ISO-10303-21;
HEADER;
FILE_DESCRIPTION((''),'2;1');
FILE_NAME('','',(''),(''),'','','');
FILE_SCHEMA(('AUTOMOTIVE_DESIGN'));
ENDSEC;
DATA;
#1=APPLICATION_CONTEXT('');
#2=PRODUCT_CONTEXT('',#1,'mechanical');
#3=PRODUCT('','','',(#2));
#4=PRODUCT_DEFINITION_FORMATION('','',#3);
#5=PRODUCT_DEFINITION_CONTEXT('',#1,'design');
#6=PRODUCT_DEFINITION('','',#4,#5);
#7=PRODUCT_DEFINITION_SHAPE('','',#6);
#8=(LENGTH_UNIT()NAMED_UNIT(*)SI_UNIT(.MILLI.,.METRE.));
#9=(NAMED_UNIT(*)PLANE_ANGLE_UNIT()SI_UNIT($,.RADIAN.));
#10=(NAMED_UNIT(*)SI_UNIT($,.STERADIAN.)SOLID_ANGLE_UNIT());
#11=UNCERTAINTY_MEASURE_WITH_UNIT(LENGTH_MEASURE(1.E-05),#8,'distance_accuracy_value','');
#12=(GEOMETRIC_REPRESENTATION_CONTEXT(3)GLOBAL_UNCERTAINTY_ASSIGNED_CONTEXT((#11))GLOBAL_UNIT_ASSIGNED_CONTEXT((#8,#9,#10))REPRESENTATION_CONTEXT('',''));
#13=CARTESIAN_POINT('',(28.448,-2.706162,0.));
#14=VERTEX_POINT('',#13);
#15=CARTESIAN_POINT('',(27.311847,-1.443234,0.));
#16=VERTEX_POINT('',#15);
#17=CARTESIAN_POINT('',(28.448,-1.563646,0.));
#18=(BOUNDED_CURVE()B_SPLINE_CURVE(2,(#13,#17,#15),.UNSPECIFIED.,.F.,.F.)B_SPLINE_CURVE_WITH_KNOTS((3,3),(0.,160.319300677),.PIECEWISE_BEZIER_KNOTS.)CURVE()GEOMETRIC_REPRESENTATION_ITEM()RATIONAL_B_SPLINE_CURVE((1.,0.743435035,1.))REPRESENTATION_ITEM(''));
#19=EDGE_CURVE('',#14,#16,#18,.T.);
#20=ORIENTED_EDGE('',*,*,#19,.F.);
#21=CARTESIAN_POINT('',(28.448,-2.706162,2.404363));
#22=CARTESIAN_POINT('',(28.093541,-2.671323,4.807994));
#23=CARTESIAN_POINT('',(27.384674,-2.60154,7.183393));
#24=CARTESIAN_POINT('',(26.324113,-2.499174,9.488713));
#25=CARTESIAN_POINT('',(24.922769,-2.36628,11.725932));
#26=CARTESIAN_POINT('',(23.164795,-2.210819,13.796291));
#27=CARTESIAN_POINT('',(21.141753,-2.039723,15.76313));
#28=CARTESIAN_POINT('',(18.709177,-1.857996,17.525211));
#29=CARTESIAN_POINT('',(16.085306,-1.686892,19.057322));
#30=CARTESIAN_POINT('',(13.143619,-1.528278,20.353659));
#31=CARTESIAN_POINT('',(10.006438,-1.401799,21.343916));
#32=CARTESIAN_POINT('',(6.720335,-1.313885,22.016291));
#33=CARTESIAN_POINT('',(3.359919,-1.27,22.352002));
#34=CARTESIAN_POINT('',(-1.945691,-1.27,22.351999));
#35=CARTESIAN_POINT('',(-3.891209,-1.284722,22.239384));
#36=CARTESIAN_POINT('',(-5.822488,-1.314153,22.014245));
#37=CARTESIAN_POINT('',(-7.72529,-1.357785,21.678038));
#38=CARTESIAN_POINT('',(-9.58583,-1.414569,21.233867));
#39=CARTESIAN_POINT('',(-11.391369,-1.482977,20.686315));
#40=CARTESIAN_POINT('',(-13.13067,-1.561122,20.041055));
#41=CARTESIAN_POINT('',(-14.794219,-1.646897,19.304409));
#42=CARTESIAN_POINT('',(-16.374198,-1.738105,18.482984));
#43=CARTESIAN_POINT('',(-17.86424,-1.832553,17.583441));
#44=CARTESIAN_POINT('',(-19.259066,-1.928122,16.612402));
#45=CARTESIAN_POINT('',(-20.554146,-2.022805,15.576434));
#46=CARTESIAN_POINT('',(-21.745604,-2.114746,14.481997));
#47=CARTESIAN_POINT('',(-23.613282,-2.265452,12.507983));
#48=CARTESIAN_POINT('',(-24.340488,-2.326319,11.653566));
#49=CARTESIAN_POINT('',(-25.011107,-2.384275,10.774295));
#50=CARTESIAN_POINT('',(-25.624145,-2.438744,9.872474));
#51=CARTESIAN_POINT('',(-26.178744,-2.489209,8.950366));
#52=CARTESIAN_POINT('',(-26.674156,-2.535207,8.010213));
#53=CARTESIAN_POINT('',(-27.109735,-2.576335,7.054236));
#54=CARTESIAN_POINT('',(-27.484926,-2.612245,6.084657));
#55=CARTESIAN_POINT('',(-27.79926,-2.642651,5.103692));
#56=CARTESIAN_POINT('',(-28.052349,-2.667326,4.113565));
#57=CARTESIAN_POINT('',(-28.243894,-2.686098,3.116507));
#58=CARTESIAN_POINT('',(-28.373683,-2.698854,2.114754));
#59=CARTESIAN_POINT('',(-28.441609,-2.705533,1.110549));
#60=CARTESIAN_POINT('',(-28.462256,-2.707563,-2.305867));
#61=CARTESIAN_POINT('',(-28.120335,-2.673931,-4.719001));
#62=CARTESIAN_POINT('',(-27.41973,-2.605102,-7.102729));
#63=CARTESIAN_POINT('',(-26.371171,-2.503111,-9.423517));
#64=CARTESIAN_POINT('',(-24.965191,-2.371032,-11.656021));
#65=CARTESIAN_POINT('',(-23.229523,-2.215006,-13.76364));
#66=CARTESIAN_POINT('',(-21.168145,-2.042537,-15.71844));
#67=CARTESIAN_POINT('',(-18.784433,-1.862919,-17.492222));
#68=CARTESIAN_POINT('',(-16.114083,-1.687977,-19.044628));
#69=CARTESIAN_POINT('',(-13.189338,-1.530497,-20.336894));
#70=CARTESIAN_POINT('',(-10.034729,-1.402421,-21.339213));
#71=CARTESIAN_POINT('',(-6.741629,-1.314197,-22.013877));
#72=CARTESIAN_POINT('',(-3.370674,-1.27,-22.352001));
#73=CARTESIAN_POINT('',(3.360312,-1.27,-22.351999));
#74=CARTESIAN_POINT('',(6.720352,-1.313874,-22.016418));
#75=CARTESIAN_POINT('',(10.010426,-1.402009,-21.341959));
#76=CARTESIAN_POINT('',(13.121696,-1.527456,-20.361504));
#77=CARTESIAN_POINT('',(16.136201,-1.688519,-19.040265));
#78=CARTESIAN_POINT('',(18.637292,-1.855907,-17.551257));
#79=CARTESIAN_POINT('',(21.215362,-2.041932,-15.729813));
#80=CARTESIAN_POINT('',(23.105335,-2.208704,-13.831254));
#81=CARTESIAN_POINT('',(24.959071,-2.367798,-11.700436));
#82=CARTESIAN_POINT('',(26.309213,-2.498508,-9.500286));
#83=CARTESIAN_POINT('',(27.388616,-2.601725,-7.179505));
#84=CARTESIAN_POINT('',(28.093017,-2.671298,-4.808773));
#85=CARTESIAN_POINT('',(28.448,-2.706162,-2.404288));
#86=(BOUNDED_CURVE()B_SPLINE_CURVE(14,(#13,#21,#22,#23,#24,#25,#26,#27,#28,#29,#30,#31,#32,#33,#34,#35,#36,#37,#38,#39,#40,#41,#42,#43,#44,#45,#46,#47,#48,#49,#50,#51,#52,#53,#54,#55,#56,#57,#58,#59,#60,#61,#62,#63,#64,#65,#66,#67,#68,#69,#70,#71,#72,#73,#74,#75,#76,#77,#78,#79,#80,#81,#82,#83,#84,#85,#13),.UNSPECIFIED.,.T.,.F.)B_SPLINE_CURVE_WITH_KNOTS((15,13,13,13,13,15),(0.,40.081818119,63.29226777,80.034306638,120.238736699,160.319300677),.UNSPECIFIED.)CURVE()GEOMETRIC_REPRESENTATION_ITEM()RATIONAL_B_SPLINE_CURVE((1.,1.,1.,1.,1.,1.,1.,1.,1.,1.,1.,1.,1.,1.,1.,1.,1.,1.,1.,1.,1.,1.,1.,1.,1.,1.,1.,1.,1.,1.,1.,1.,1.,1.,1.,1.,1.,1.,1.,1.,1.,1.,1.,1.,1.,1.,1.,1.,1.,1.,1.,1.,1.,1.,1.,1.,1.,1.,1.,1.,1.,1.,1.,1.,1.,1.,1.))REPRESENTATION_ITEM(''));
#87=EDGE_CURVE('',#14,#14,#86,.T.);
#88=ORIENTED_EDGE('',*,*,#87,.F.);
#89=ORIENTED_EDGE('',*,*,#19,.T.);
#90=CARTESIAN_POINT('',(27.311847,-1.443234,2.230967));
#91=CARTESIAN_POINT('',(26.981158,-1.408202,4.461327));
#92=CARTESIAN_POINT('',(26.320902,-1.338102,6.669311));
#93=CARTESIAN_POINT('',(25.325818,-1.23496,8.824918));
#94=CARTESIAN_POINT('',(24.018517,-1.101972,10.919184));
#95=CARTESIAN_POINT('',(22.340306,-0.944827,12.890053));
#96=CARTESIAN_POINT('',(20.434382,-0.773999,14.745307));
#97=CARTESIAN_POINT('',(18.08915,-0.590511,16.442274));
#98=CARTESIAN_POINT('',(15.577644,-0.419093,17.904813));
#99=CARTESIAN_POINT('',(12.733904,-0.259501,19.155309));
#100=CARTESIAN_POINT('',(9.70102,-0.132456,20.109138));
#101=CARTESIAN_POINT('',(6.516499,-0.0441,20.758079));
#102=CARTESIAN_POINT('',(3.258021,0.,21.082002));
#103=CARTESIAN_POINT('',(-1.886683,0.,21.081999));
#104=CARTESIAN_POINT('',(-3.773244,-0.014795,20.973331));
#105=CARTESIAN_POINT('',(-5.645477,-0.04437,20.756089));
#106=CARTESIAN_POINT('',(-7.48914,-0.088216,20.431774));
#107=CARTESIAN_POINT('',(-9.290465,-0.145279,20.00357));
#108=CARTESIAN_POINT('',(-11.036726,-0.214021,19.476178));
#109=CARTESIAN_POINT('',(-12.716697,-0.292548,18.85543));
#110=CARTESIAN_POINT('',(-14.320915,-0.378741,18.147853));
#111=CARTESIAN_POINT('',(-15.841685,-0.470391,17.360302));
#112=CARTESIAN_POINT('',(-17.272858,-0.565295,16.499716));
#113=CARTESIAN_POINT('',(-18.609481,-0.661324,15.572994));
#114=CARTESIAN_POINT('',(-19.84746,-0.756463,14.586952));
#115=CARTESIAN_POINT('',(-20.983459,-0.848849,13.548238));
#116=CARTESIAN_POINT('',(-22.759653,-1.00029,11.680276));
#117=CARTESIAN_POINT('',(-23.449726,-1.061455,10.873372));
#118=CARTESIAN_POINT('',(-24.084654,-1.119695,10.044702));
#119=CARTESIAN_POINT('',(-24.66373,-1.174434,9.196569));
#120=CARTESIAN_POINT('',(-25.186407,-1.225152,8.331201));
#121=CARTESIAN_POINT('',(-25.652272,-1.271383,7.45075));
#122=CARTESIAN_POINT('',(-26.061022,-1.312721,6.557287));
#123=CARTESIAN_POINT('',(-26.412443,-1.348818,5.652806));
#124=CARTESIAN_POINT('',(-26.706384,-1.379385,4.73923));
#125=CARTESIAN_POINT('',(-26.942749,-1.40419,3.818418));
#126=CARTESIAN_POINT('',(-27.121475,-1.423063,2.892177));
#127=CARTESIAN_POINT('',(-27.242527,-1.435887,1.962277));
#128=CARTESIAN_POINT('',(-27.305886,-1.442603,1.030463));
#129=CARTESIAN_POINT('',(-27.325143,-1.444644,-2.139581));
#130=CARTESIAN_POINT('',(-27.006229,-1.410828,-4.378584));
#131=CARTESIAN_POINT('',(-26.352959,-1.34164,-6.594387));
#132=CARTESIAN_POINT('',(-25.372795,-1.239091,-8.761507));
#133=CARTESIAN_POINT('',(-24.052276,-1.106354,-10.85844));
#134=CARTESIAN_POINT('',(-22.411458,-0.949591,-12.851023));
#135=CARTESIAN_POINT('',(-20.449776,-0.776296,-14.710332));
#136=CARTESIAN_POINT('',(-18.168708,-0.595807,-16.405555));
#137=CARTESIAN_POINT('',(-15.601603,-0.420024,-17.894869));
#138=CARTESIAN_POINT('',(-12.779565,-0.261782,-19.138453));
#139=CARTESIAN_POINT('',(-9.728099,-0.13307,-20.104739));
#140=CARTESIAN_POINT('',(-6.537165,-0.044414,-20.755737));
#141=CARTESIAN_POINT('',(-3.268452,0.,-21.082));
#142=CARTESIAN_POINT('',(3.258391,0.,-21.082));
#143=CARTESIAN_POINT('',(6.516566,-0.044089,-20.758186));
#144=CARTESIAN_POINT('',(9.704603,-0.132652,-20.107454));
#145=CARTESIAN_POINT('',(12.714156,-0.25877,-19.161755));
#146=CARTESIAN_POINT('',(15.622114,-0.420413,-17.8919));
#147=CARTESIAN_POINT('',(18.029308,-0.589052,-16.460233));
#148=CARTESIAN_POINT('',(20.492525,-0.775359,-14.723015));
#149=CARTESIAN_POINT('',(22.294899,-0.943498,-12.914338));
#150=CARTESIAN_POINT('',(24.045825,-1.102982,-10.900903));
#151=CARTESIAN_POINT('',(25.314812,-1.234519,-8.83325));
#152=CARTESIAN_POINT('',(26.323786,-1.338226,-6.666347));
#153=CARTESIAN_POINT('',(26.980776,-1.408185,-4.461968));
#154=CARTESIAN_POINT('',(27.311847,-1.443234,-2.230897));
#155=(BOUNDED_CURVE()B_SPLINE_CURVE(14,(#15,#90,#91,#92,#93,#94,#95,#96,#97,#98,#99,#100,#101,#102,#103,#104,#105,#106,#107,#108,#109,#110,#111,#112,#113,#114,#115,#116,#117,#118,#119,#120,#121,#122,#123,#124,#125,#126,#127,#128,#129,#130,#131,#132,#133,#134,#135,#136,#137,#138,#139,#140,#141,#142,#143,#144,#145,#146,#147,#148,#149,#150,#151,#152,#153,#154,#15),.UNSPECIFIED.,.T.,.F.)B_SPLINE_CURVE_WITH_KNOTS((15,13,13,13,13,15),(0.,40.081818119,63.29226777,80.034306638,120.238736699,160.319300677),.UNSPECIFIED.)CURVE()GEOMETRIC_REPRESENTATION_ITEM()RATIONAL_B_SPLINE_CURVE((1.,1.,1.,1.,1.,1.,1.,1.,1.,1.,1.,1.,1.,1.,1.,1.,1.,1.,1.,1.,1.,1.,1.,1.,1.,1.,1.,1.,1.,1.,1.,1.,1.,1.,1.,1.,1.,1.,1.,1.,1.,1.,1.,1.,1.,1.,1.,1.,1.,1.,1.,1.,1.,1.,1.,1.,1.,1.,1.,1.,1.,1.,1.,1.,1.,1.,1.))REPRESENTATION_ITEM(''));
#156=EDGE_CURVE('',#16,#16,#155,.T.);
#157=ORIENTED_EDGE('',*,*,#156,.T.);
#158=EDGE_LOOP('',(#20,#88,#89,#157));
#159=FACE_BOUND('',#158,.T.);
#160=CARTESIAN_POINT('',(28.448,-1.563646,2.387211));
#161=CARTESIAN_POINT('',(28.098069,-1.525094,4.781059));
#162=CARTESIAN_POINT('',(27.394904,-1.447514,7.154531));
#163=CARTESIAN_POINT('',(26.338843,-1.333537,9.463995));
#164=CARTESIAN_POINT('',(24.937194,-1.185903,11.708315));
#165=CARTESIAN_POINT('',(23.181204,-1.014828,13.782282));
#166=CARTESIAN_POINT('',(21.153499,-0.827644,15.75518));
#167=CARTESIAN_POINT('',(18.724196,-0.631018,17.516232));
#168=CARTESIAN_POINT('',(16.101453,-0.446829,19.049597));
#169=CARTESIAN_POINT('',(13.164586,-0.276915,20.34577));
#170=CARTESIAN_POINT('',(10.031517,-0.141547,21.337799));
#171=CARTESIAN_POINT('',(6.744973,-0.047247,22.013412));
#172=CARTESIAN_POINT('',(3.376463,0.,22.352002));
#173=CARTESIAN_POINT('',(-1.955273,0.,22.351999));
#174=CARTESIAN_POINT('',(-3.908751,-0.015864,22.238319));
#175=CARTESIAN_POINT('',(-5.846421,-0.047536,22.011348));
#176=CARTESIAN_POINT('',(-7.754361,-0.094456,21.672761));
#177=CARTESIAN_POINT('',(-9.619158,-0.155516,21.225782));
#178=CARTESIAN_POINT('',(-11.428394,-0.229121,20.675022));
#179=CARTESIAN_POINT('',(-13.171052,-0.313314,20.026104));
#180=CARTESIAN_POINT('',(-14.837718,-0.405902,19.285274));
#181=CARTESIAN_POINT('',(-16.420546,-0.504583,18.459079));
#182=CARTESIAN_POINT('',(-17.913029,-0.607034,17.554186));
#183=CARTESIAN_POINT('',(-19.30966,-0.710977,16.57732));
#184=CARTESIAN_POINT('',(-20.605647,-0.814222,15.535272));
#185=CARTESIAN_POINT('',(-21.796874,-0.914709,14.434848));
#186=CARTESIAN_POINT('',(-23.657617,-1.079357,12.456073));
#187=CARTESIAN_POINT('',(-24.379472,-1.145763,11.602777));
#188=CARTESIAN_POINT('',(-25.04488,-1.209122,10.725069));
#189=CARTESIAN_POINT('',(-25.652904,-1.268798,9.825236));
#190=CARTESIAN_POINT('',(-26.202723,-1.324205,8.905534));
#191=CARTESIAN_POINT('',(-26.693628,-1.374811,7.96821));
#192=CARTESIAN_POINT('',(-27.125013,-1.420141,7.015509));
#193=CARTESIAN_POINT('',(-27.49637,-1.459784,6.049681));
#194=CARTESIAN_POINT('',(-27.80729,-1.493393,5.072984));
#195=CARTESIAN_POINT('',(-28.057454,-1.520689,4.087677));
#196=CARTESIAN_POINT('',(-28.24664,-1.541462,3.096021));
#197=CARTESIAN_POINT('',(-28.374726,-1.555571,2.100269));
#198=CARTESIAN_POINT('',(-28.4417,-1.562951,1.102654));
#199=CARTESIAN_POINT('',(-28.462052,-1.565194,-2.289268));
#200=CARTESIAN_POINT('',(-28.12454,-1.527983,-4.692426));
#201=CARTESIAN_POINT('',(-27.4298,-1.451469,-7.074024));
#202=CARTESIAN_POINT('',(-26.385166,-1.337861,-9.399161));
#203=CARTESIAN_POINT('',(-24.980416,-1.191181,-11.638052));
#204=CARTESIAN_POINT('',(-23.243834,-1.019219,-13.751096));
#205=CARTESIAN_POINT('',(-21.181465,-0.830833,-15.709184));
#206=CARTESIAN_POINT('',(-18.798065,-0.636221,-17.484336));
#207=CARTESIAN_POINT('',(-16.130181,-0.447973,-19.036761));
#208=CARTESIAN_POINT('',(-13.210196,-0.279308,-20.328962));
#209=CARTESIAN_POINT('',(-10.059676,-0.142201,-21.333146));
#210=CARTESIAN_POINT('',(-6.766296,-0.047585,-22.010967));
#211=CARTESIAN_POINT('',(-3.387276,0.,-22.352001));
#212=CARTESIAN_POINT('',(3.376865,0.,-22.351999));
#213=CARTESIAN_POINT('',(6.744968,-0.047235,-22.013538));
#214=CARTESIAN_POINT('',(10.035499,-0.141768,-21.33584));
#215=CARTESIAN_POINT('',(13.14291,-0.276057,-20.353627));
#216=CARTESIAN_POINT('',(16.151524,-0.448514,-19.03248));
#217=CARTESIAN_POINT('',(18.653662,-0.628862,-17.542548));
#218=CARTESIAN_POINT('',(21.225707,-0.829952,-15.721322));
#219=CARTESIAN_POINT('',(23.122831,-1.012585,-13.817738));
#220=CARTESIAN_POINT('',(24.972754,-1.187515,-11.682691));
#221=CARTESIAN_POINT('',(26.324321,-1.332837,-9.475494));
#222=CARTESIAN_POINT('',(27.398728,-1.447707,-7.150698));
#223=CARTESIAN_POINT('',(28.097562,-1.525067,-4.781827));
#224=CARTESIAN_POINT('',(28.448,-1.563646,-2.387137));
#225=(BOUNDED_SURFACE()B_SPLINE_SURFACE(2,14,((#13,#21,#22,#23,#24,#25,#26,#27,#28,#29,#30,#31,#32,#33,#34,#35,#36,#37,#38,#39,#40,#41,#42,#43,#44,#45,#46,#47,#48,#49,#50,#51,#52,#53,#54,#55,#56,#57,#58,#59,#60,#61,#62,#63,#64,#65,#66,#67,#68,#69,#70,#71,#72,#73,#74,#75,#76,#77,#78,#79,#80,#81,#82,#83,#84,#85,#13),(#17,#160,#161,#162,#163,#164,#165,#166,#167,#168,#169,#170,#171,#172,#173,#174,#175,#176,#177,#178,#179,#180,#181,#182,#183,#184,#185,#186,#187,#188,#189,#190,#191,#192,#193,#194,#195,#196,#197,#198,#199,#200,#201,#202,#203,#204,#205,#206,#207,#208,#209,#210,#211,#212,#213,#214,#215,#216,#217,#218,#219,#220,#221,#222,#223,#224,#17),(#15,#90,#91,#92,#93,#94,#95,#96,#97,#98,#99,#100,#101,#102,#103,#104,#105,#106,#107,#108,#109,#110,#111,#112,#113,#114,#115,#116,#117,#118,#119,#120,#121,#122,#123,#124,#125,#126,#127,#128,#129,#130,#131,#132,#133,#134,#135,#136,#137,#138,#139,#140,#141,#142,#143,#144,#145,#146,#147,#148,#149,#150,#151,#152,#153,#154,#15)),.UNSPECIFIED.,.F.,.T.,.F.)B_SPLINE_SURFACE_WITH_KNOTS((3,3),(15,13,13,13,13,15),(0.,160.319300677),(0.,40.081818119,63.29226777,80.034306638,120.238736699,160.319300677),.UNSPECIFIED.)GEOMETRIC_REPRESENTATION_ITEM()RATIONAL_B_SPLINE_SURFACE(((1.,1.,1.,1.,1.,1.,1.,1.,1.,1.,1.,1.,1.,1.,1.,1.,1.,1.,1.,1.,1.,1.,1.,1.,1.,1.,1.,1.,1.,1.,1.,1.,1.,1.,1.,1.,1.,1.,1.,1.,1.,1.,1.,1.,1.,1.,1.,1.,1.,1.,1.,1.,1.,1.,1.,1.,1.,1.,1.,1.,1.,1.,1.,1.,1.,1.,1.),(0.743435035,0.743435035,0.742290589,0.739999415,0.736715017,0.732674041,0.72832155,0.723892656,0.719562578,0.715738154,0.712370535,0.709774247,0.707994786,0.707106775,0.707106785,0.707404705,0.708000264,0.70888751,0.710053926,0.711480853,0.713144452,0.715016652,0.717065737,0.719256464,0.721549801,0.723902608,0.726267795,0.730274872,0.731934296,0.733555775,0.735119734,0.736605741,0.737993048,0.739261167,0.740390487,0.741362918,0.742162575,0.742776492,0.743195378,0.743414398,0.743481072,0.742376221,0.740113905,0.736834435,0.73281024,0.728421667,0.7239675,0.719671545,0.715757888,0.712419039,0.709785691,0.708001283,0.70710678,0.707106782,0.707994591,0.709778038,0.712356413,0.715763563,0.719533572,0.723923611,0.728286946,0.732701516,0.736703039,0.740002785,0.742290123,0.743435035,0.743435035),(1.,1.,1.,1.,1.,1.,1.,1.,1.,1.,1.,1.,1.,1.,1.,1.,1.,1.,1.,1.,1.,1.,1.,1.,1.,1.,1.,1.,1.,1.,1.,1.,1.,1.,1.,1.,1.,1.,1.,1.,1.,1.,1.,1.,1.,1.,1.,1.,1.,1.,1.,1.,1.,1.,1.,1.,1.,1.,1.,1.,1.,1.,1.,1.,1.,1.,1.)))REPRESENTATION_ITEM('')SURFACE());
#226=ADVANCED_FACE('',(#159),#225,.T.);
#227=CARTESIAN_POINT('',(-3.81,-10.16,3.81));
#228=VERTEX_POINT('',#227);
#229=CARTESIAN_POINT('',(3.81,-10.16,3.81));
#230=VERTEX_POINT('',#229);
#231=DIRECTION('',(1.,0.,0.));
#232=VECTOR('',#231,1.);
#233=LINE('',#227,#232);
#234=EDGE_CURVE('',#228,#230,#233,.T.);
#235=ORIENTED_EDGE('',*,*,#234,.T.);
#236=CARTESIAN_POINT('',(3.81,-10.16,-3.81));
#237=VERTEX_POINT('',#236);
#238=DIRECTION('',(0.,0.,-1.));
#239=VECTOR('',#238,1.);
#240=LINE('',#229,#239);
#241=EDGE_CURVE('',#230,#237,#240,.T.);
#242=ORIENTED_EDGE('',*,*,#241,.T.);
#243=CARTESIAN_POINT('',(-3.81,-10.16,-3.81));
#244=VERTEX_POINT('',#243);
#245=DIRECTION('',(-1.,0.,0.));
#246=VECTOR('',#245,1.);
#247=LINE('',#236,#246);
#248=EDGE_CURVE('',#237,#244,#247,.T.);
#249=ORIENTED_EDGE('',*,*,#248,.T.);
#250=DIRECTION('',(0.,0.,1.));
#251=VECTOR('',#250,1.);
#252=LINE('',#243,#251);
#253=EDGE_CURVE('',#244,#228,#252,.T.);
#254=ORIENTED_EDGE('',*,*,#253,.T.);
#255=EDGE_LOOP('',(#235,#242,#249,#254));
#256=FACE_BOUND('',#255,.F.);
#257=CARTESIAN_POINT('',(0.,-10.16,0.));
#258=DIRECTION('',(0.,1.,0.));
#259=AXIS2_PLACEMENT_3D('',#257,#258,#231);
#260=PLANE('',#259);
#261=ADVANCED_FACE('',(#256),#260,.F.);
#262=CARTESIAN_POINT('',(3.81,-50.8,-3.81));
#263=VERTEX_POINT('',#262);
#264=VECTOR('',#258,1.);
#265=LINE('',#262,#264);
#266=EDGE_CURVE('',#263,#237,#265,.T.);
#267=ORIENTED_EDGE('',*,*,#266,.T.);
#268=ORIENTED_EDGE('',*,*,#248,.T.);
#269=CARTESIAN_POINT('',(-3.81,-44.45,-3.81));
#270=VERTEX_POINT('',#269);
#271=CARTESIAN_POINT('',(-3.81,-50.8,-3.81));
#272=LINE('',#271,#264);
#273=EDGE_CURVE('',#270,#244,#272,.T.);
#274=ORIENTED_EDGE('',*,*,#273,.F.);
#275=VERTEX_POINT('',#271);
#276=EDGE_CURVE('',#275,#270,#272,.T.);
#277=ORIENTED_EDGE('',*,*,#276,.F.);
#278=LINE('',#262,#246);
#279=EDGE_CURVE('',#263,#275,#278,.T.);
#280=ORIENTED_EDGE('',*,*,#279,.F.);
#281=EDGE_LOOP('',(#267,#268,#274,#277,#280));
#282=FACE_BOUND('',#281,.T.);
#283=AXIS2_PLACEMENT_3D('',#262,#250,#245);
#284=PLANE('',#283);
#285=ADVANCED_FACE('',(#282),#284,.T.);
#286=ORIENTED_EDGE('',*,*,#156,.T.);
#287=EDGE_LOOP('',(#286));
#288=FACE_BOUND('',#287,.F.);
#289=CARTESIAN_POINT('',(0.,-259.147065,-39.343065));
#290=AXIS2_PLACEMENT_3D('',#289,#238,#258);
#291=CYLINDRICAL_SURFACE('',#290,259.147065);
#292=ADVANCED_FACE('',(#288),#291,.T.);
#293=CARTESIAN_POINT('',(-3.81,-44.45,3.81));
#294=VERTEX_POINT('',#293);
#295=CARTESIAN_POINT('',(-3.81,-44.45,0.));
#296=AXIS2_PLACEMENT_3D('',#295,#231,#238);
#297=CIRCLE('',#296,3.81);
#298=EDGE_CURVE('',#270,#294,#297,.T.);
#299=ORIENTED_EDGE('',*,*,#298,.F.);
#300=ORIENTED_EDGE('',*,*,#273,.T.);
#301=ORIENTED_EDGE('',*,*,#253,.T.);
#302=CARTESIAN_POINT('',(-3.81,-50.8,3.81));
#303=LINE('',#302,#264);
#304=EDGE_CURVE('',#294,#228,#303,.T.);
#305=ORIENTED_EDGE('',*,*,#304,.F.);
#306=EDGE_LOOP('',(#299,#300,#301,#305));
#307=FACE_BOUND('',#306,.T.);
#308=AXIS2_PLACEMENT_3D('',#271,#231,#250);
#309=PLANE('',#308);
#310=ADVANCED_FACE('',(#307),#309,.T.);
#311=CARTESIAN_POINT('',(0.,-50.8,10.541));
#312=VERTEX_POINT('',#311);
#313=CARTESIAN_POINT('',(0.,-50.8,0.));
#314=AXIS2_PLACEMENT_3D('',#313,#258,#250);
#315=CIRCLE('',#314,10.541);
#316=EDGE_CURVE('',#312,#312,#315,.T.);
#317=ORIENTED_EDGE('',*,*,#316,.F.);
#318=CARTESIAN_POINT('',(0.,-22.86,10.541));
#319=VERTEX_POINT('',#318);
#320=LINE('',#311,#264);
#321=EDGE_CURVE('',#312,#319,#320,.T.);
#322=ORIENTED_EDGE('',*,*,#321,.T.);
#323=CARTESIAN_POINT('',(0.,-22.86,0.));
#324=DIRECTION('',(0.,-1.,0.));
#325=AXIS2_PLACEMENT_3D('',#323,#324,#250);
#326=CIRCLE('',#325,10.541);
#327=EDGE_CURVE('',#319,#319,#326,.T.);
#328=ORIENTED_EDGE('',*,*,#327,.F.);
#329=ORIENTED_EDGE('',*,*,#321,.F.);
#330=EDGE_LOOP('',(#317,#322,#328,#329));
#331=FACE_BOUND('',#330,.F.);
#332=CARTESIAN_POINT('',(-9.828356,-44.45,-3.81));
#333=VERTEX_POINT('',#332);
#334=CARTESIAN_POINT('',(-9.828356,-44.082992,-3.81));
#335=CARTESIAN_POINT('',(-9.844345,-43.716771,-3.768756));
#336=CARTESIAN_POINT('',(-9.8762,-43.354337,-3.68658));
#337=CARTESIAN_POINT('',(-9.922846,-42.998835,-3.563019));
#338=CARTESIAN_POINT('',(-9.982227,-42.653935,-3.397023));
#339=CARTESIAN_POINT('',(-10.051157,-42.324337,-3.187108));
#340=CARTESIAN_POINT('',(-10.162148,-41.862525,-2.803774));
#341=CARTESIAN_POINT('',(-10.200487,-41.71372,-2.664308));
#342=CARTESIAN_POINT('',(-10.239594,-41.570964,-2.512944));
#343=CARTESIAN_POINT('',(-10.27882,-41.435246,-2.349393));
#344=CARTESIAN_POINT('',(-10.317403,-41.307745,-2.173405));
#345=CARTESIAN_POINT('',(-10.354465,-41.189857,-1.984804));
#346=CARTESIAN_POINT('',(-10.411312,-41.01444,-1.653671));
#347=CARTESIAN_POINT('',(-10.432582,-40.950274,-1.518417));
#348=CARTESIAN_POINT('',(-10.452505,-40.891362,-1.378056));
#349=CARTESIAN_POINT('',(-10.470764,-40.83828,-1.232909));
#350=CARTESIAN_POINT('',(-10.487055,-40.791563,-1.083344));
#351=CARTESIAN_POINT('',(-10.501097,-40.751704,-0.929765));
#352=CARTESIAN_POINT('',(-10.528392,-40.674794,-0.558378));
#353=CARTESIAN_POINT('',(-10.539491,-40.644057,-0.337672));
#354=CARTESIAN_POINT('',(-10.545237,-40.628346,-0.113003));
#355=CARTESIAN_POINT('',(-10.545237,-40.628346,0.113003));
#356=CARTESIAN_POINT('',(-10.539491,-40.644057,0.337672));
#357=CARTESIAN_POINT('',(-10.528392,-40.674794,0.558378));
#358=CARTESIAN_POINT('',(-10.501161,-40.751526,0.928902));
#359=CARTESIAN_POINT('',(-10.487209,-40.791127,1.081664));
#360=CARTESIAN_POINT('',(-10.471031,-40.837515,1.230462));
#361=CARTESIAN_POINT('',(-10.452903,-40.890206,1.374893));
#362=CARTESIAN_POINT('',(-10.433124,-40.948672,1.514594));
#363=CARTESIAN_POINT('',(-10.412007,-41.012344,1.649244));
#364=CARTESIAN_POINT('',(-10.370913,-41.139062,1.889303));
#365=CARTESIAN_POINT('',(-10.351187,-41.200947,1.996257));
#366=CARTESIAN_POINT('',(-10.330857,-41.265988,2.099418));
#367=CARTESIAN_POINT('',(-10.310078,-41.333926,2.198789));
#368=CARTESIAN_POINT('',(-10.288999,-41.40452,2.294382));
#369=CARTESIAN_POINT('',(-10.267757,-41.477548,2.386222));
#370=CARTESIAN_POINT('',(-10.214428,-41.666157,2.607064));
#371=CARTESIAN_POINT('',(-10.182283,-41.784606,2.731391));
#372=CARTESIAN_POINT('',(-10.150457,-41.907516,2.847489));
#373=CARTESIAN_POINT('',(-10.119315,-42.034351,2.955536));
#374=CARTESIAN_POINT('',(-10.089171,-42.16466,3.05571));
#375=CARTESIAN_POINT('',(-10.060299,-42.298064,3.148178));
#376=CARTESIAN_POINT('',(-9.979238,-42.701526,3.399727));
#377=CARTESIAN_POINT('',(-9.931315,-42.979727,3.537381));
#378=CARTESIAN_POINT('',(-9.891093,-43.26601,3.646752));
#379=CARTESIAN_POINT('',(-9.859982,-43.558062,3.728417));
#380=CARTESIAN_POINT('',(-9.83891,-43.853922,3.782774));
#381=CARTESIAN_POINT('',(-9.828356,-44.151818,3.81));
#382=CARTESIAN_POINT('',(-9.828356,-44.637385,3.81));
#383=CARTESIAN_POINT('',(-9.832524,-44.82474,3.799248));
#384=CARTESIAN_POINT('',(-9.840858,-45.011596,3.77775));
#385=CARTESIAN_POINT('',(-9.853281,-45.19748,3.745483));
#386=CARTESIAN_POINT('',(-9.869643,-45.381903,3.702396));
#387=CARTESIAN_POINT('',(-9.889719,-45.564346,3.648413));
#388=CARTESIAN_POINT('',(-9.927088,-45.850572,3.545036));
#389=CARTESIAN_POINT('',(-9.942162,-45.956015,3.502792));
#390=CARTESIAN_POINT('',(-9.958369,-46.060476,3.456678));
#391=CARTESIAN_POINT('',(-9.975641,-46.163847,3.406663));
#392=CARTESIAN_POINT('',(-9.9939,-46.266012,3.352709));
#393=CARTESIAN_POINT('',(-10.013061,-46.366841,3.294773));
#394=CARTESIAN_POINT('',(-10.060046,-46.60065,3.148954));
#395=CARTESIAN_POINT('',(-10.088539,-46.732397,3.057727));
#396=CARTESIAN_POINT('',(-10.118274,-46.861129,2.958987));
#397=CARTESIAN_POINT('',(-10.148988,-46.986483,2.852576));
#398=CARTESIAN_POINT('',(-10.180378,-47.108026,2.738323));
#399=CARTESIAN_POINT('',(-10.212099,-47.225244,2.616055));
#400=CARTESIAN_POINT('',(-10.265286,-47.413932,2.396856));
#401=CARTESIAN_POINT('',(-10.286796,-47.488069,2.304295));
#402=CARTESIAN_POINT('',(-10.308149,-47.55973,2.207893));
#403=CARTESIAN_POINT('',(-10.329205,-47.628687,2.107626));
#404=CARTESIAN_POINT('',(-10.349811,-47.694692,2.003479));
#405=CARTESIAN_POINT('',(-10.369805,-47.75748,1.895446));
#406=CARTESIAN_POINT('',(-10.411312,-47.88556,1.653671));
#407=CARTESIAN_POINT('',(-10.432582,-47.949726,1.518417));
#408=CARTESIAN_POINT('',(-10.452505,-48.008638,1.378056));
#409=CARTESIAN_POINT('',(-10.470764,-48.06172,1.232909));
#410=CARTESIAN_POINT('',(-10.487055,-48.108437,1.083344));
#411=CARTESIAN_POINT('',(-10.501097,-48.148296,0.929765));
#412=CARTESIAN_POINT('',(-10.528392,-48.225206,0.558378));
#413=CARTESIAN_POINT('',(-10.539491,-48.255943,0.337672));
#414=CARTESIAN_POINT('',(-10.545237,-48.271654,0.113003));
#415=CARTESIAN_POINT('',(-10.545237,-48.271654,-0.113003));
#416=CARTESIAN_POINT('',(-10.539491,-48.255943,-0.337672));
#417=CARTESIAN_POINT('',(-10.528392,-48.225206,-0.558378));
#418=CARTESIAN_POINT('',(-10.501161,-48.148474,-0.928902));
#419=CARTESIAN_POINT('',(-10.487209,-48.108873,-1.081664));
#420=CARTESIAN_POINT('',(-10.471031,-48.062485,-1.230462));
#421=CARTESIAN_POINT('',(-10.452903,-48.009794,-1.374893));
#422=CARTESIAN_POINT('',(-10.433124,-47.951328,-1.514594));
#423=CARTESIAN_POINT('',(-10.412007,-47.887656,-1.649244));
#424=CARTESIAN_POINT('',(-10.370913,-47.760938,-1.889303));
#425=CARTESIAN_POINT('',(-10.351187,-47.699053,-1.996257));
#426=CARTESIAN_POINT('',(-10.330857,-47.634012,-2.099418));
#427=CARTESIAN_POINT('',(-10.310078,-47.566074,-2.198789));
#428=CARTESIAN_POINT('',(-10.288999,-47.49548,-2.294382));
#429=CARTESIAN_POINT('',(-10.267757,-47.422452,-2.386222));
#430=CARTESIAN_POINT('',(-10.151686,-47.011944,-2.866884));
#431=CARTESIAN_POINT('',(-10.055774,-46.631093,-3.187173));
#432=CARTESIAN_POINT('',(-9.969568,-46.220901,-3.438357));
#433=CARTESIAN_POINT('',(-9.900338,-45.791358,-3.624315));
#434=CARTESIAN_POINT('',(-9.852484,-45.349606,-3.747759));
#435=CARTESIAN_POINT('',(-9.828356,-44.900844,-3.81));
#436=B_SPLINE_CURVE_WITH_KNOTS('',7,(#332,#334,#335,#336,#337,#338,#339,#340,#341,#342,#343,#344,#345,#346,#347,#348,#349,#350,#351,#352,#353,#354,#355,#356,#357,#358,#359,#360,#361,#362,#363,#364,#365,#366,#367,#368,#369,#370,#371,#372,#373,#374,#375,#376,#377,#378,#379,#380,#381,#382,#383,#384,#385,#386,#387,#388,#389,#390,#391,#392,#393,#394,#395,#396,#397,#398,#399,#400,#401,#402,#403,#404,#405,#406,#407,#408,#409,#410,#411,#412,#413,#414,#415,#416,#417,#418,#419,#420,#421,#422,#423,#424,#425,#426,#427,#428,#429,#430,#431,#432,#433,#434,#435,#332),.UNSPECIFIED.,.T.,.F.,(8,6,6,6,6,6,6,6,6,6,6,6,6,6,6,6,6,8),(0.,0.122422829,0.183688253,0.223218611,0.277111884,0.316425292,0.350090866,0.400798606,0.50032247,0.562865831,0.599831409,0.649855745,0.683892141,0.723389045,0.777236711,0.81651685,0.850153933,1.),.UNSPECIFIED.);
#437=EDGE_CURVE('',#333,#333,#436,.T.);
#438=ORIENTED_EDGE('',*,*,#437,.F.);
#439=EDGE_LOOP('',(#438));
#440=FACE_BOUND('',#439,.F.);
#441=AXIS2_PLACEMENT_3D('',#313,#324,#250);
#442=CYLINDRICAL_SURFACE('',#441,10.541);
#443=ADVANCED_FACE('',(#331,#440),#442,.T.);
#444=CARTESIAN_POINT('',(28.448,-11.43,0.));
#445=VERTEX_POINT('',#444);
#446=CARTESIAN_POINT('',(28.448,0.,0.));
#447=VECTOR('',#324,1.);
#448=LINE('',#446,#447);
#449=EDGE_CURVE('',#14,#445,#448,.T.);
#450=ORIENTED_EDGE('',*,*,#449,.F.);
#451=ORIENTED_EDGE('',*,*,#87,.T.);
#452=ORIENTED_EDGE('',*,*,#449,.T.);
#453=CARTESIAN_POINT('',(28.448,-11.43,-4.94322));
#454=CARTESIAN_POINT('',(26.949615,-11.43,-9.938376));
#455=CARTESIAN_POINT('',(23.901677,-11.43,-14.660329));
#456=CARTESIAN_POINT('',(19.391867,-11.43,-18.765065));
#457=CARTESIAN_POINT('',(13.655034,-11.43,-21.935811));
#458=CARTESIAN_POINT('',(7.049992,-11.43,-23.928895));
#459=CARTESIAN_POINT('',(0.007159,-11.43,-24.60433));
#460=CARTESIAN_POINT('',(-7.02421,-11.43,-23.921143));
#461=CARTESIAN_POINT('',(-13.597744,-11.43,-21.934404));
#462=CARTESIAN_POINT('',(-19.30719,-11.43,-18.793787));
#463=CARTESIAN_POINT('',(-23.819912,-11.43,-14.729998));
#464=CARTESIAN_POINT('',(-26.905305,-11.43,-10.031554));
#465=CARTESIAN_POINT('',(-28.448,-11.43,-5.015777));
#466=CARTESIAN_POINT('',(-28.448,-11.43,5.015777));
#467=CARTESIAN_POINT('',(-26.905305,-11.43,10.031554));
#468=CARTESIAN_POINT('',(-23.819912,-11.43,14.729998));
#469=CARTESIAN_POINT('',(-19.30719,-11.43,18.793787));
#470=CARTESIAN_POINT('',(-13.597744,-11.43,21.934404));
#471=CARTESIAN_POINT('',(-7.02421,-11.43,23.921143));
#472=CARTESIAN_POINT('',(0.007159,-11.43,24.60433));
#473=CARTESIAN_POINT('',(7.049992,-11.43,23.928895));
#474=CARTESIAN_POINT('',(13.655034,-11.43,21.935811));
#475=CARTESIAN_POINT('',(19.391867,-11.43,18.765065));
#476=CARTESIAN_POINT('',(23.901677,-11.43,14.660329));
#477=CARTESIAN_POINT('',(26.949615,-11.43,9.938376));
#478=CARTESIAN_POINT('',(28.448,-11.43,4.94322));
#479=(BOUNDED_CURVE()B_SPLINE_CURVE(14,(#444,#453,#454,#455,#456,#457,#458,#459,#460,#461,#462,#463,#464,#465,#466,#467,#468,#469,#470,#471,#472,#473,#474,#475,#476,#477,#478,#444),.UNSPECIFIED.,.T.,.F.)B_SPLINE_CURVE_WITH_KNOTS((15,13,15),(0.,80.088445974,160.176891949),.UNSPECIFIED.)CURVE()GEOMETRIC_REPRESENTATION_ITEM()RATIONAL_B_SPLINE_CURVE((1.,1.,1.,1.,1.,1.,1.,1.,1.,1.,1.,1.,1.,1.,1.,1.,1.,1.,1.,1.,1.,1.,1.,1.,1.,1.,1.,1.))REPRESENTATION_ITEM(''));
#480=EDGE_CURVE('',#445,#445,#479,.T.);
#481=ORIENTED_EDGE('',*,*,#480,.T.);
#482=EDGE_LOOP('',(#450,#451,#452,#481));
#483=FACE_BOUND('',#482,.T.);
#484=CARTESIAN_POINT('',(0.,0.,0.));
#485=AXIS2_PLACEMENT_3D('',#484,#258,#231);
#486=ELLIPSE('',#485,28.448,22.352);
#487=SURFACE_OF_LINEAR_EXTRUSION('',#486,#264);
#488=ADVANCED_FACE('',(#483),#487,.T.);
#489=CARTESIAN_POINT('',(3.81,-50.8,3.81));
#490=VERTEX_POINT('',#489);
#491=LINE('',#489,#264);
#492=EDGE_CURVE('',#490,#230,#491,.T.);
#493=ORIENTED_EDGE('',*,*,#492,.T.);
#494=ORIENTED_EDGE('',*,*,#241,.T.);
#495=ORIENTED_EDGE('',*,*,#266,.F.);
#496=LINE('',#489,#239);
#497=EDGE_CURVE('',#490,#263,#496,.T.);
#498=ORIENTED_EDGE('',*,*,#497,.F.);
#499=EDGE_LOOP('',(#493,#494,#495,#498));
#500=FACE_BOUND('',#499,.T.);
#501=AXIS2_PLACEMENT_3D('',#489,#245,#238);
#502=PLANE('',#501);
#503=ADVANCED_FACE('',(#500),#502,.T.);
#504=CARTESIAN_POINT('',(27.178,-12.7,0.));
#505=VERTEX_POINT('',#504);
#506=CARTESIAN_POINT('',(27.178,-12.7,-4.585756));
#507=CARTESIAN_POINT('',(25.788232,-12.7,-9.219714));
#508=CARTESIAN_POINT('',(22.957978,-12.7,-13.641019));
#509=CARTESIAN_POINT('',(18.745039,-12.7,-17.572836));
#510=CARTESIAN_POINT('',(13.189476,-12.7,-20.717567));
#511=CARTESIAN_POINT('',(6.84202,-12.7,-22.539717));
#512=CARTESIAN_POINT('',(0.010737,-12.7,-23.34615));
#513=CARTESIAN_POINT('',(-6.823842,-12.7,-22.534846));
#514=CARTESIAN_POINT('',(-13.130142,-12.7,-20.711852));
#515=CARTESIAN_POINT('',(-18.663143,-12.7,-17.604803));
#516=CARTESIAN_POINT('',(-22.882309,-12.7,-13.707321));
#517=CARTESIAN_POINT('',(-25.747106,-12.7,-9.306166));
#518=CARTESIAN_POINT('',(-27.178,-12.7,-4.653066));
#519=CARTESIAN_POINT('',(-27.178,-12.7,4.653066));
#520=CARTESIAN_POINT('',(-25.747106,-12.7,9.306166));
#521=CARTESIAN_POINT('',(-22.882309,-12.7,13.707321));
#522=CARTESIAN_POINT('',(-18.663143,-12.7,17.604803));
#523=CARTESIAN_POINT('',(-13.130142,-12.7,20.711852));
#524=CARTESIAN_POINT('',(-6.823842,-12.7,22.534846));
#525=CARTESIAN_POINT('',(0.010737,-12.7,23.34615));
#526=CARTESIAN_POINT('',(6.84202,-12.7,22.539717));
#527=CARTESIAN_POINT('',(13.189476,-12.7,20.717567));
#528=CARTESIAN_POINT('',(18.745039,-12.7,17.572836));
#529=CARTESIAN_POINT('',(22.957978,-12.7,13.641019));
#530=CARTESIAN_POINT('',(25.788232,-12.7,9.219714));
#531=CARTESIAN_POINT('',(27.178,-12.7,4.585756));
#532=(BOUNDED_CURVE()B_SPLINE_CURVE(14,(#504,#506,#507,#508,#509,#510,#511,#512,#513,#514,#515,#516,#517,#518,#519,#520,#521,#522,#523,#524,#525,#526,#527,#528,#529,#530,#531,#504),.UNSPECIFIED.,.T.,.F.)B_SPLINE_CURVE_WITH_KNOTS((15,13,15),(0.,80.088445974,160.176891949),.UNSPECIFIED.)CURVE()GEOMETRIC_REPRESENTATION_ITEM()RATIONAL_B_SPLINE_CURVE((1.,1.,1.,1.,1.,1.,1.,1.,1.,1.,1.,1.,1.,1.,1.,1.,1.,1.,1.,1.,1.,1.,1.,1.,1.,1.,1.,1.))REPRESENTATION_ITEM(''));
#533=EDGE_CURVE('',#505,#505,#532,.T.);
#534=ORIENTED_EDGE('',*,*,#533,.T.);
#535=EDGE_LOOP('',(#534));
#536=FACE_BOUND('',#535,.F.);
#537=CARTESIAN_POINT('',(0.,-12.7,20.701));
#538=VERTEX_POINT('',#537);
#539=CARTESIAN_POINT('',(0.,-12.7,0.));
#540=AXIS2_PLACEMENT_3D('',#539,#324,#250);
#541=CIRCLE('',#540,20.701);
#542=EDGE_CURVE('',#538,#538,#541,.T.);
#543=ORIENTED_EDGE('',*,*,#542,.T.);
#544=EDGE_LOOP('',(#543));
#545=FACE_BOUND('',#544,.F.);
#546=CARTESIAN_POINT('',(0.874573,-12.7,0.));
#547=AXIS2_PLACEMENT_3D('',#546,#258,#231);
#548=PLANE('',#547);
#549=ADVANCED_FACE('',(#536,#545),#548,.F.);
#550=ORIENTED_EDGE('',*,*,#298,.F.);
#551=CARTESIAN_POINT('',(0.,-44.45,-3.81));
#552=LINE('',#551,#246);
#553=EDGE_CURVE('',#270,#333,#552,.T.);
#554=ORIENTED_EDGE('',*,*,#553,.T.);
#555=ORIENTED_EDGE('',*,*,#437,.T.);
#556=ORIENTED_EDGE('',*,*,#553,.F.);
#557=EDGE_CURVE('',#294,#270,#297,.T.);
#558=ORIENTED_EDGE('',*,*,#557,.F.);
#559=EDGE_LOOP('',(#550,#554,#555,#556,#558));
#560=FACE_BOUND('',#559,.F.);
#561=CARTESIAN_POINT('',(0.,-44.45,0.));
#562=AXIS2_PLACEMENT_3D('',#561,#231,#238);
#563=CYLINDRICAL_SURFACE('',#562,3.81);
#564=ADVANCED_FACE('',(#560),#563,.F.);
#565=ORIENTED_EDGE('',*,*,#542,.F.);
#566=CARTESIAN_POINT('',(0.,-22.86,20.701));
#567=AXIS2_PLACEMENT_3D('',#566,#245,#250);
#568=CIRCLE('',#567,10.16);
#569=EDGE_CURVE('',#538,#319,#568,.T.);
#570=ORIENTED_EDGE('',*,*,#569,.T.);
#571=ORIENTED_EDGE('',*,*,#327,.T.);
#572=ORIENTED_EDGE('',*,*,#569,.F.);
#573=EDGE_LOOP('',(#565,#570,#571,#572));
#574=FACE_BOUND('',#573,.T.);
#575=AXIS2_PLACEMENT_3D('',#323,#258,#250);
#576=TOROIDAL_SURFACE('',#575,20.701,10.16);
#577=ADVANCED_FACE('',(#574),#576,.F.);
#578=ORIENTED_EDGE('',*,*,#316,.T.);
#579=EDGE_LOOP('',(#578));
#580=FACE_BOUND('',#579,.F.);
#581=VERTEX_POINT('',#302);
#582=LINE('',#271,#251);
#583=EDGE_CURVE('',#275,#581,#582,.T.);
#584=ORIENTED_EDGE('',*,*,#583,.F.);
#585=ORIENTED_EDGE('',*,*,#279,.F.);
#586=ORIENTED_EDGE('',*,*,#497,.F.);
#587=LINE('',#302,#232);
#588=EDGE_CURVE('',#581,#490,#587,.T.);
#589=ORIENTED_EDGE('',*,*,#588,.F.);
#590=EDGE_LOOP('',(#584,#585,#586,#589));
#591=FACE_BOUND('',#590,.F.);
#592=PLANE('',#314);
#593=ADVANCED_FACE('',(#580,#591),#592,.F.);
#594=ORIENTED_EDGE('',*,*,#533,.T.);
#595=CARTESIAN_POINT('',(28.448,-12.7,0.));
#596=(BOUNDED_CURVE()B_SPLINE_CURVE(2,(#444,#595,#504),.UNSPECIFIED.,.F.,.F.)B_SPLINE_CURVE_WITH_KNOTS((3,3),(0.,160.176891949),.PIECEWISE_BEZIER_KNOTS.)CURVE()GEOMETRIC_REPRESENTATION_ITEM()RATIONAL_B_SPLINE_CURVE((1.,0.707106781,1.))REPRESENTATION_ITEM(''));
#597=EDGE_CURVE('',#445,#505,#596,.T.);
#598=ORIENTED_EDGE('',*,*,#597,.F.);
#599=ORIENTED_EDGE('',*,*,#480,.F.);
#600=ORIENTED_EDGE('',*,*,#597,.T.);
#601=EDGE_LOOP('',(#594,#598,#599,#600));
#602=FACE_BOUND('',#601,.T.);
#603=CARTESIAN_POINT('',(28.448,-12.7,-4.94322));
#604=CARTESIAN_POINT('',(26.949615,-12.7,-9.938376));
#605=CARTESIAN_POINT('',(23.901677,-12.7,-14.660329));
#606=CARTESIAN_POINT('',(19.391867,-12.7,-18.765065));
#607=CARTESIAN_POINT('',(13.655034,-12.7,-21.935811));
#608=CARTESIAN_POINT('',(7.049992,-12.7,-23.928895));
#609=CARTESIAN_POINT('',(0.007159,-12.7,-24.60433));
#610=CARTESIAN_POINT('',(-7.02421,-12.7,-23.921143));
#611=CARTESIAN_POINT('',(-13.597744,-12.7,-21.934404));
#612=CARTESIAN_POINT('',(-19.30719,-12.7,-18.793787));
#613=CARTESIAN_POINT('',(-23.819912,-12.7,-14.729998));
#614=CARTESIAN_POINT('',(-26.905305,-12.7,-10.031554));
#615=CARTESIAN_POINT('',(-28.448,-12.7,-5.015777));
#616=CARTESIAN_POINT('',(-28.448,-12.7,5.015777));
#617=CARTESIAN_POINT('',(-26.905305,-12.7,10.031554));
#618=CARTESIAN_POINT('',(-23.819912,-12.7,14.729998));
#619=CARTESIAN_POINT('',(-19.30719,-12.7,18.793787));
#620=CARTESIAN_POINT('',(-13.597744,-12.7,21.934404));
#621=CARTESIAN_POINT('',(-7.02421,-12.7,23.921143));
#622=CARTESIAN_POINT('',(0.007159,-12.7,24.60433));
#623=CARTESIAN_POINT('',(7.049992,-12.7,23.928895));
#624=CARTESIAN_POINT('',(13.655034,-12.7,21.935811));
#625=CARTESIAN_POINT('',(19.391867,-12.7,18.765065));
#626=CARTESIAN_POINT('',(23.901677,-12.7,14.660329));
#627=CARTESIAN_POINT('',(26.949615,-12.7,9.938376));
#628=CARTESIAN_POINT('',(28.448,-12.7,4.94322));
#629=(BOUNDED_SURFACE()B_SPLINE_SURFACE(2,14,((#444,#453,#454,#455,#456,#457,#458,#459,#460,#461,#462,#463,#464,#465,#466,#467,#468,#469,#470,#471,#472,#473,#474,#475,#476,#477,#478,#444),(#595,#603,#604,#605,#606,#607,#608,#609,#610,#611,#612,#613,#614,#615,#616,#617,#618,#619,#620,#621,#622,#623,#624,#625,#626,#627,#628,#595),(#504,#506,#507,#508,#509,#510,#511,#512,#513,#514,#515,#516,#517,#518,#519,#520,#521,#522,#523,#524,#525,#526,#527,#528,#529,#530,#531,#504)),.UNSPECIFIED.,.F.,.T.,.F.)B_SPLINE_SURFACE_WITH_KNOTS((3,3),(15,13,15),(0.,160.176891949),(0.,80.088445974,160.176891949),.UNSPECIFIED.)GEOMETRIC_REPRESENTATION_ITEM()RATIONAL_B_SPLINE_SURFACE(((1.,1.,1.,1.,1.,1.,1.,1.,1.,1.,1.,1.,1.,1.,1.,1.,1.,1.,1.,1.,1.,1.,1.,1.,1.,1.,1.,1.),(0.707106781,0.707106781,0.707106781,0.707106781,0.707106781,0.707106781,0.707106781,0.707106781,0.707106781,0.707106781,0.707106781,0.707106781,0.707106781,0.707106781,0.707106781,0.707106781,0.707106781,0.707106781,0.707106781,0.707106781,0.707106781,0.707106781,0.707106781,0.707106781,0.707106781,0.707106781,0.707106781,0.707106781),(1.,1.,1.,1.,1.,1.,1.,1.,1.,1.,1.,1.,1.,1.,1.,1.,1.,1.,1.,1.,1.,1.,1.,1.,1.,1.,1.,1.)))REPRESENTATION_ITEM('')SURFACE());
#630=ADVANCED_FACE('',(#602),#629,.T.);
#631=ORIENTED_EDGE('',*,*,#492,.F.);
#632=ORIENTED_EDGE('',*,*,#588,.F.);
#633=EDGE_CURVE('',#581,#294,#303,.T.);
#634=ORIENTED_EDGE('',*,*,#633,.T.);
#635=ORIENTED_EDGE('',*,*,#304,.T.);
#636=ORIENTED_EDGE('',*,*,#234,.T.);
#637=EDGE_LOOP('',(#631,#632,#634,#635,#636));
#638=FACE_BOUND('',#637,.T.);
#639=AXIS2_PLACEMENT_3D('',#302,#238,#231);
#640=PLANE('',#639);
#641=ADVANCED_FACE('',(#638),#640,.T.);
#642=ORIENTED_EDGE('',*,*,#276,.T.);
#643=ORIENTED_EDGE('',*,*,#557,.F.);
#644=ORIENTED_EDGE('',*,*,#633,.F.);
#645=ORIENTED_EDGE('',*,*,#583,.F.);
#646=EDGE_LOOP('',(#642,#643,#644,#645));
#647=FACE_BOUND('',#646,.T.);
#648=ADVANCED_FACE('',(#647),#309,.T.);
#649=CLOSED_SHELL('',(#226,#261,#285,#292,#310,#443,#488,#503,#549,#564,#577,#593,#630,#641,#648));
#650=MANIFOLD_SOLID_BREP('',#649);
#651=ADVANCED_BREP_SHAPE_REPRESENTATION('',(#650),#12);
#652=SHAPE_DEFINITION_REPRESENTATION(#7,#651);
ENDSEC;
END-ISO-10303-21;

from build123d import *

# Parameters (mm, degrees)
SKETCH3_RX              = 28.448
SKETCH3_RY              = 22.352
BOSS_EXTRUDE1_DEPTH     = 12.7
CUT_EXTRUDE3_DEPTH      = 39.34306466624701
CUT_EXTRUDE3_DEPTH_BACK = 39.34306466624701
CUT_EXTRUDE4_DEPTH      = 39.343064831926725
CUT_EXTRUDE4_DEPTH_BACK = 39.343064831926725
SKETCH6_R               = 10.541000000000002
BOSS_EXTRUDE2_DEPTH     = 42.418
FILLET2_R               = 1.27
FILLET3_R               = 1.27
FILLET4_R               = 10.16
CUT_EXTRUDE7_DEPTH      = 40.64
SKETCH9_R               = 3.8099999999999996
CUT_EXTRUDE8_DEPTH      = 40.64


with BuildPart() as part:
    # Sketch3 → Boss-Extrude1 (new body)
    with BuildSketch(Plane(origin=(0, 0, 0), x_dir=(1, 0, 0), z_dir=(0, 1, 0))):
        with Locations(Location((0, 0), (0, 0, -9.31e-15))):
            Ellipse(SKETCH3_RX, SKETCH3_RY)
    extrude(amount=-BOSS_EXTRUDE1_DEPTH)

    # Sketch4 → Cut-Extrude3 (cut, two sides: drawn at the far end of the back side and taken through both)
    with BuildSketch(Plane.XY.offset(-CUT_EXTRUDE3_DEPTH_BACK)):
        with BuildLine():
            Line((-57.016183867065614, -6.350000000000001), (-57.016183867065614, 0))
            Line((-57.016183867065614, 0), (0, 0))
            ThreePointArc((0, 0), (-28.684349926236084, -1.5923924220459753), (-57.016183867065614, -6.350000000000001))
        make_face()
    extrude(amount=CUT_EXTRUDE3_DEPTH + CUT_EXTRUDE3_DEPTH_BACK, mode=Mode.SUBTRACT)

    # Sketch5 → Cut-Extrude4 (cut, two sides: drawn at the far end of the back side and taken through both)
    with BuildSketch(Plane.XY.offset(-CUT_EXTRUDE4_DEPTH_BACK)):
        with BuildLine():
            Line((57.016183867065614, -6.350000000000001), (57.016183867065614, 1.388e-14))
            Line((57.016183867065614, 1.388e-14), (0, 0))
            ThreePointArc((0, 0), (28.684349926236013, -1.5923924220459753), (57.016183867065614, -6.350000000000001))
        make_face()
    extrude(amount=CUT_EXTRUDE4_DEPTH + CUT_EXTRUDE4_DEPTH_BACK, mode=Mode.SUBTRACT)

    # Sketch6 → Boss-Extrude2 (add)
    with BuildSketch(Plane(origin=(0, -50.8, 0), x_dir=(1, 0, 0), z_dir=(0, 1, 0))):
        with Locations(Location((0, 0, 0), (0, 0, 270))):
            Circle(SKETCH6_R)
    extrude(amount=BOSS_EXTRUDE2_DEPTH)

    # Fillet2
    fillet2_edges = [part.edges().sort_by_distance(p)[0] for p in [
        (18.897313786773612, -0.6899257500063387, 16.707844987556147),
    ]]
    fillet(fillet2_edges, radius=FILLET2_R)

    # Fillet3
    fillet3_edges = [part.edges().sort_by_distance(p)[0] for p in [
        (-28.44799943216588, -12.7, 0.00446597468168338),
    ]]
    fillet(fillet3_edges, radius=FILLET3_R)

    # Fillet4
    fillet4_edges = [part.edges().sort_by_distance(p)[0] for p in [
        (5.33e-15, -12.700000000000003, -10.541000000000002),
    ]]
    fillet(fillet4_edges, radius=FILLET4_R)

    # Sketch8 → Cut-Extrude7 (cut)
    with BuildSketch(Plane(origin=(0, -50.8, 0), x_dir=(1, 0, 0), z_dir=(0, 1, 0))):
        Polygon((3.8099999999999996, 3.8099999999999996), (-3.8100000000000014, 3.8099999999999996), (-3.8099999999999996, -3.8100000000000005), (3.81, -3.8100000000000005), align=None)
    extrude(amount=CUT_EXTRUDE7_DEPTH, mode=Mode.SUBTRACT)

    # Sketch9 → Cut-Extrude8 (cut)
    with BuildSketch(Plane(origin=(0, 0, 0), x_dir=(0, 0, -1), z_dir=(1, 0, 0))):
        with Locations((5.44e-15, -44.449999999999996)):
            Circle(SKETCH9_R)
    extrude(amount=-CUT_EXTRUDE8_DEPTH, mode=Mode.SUBTRACT)


solid = part.part
